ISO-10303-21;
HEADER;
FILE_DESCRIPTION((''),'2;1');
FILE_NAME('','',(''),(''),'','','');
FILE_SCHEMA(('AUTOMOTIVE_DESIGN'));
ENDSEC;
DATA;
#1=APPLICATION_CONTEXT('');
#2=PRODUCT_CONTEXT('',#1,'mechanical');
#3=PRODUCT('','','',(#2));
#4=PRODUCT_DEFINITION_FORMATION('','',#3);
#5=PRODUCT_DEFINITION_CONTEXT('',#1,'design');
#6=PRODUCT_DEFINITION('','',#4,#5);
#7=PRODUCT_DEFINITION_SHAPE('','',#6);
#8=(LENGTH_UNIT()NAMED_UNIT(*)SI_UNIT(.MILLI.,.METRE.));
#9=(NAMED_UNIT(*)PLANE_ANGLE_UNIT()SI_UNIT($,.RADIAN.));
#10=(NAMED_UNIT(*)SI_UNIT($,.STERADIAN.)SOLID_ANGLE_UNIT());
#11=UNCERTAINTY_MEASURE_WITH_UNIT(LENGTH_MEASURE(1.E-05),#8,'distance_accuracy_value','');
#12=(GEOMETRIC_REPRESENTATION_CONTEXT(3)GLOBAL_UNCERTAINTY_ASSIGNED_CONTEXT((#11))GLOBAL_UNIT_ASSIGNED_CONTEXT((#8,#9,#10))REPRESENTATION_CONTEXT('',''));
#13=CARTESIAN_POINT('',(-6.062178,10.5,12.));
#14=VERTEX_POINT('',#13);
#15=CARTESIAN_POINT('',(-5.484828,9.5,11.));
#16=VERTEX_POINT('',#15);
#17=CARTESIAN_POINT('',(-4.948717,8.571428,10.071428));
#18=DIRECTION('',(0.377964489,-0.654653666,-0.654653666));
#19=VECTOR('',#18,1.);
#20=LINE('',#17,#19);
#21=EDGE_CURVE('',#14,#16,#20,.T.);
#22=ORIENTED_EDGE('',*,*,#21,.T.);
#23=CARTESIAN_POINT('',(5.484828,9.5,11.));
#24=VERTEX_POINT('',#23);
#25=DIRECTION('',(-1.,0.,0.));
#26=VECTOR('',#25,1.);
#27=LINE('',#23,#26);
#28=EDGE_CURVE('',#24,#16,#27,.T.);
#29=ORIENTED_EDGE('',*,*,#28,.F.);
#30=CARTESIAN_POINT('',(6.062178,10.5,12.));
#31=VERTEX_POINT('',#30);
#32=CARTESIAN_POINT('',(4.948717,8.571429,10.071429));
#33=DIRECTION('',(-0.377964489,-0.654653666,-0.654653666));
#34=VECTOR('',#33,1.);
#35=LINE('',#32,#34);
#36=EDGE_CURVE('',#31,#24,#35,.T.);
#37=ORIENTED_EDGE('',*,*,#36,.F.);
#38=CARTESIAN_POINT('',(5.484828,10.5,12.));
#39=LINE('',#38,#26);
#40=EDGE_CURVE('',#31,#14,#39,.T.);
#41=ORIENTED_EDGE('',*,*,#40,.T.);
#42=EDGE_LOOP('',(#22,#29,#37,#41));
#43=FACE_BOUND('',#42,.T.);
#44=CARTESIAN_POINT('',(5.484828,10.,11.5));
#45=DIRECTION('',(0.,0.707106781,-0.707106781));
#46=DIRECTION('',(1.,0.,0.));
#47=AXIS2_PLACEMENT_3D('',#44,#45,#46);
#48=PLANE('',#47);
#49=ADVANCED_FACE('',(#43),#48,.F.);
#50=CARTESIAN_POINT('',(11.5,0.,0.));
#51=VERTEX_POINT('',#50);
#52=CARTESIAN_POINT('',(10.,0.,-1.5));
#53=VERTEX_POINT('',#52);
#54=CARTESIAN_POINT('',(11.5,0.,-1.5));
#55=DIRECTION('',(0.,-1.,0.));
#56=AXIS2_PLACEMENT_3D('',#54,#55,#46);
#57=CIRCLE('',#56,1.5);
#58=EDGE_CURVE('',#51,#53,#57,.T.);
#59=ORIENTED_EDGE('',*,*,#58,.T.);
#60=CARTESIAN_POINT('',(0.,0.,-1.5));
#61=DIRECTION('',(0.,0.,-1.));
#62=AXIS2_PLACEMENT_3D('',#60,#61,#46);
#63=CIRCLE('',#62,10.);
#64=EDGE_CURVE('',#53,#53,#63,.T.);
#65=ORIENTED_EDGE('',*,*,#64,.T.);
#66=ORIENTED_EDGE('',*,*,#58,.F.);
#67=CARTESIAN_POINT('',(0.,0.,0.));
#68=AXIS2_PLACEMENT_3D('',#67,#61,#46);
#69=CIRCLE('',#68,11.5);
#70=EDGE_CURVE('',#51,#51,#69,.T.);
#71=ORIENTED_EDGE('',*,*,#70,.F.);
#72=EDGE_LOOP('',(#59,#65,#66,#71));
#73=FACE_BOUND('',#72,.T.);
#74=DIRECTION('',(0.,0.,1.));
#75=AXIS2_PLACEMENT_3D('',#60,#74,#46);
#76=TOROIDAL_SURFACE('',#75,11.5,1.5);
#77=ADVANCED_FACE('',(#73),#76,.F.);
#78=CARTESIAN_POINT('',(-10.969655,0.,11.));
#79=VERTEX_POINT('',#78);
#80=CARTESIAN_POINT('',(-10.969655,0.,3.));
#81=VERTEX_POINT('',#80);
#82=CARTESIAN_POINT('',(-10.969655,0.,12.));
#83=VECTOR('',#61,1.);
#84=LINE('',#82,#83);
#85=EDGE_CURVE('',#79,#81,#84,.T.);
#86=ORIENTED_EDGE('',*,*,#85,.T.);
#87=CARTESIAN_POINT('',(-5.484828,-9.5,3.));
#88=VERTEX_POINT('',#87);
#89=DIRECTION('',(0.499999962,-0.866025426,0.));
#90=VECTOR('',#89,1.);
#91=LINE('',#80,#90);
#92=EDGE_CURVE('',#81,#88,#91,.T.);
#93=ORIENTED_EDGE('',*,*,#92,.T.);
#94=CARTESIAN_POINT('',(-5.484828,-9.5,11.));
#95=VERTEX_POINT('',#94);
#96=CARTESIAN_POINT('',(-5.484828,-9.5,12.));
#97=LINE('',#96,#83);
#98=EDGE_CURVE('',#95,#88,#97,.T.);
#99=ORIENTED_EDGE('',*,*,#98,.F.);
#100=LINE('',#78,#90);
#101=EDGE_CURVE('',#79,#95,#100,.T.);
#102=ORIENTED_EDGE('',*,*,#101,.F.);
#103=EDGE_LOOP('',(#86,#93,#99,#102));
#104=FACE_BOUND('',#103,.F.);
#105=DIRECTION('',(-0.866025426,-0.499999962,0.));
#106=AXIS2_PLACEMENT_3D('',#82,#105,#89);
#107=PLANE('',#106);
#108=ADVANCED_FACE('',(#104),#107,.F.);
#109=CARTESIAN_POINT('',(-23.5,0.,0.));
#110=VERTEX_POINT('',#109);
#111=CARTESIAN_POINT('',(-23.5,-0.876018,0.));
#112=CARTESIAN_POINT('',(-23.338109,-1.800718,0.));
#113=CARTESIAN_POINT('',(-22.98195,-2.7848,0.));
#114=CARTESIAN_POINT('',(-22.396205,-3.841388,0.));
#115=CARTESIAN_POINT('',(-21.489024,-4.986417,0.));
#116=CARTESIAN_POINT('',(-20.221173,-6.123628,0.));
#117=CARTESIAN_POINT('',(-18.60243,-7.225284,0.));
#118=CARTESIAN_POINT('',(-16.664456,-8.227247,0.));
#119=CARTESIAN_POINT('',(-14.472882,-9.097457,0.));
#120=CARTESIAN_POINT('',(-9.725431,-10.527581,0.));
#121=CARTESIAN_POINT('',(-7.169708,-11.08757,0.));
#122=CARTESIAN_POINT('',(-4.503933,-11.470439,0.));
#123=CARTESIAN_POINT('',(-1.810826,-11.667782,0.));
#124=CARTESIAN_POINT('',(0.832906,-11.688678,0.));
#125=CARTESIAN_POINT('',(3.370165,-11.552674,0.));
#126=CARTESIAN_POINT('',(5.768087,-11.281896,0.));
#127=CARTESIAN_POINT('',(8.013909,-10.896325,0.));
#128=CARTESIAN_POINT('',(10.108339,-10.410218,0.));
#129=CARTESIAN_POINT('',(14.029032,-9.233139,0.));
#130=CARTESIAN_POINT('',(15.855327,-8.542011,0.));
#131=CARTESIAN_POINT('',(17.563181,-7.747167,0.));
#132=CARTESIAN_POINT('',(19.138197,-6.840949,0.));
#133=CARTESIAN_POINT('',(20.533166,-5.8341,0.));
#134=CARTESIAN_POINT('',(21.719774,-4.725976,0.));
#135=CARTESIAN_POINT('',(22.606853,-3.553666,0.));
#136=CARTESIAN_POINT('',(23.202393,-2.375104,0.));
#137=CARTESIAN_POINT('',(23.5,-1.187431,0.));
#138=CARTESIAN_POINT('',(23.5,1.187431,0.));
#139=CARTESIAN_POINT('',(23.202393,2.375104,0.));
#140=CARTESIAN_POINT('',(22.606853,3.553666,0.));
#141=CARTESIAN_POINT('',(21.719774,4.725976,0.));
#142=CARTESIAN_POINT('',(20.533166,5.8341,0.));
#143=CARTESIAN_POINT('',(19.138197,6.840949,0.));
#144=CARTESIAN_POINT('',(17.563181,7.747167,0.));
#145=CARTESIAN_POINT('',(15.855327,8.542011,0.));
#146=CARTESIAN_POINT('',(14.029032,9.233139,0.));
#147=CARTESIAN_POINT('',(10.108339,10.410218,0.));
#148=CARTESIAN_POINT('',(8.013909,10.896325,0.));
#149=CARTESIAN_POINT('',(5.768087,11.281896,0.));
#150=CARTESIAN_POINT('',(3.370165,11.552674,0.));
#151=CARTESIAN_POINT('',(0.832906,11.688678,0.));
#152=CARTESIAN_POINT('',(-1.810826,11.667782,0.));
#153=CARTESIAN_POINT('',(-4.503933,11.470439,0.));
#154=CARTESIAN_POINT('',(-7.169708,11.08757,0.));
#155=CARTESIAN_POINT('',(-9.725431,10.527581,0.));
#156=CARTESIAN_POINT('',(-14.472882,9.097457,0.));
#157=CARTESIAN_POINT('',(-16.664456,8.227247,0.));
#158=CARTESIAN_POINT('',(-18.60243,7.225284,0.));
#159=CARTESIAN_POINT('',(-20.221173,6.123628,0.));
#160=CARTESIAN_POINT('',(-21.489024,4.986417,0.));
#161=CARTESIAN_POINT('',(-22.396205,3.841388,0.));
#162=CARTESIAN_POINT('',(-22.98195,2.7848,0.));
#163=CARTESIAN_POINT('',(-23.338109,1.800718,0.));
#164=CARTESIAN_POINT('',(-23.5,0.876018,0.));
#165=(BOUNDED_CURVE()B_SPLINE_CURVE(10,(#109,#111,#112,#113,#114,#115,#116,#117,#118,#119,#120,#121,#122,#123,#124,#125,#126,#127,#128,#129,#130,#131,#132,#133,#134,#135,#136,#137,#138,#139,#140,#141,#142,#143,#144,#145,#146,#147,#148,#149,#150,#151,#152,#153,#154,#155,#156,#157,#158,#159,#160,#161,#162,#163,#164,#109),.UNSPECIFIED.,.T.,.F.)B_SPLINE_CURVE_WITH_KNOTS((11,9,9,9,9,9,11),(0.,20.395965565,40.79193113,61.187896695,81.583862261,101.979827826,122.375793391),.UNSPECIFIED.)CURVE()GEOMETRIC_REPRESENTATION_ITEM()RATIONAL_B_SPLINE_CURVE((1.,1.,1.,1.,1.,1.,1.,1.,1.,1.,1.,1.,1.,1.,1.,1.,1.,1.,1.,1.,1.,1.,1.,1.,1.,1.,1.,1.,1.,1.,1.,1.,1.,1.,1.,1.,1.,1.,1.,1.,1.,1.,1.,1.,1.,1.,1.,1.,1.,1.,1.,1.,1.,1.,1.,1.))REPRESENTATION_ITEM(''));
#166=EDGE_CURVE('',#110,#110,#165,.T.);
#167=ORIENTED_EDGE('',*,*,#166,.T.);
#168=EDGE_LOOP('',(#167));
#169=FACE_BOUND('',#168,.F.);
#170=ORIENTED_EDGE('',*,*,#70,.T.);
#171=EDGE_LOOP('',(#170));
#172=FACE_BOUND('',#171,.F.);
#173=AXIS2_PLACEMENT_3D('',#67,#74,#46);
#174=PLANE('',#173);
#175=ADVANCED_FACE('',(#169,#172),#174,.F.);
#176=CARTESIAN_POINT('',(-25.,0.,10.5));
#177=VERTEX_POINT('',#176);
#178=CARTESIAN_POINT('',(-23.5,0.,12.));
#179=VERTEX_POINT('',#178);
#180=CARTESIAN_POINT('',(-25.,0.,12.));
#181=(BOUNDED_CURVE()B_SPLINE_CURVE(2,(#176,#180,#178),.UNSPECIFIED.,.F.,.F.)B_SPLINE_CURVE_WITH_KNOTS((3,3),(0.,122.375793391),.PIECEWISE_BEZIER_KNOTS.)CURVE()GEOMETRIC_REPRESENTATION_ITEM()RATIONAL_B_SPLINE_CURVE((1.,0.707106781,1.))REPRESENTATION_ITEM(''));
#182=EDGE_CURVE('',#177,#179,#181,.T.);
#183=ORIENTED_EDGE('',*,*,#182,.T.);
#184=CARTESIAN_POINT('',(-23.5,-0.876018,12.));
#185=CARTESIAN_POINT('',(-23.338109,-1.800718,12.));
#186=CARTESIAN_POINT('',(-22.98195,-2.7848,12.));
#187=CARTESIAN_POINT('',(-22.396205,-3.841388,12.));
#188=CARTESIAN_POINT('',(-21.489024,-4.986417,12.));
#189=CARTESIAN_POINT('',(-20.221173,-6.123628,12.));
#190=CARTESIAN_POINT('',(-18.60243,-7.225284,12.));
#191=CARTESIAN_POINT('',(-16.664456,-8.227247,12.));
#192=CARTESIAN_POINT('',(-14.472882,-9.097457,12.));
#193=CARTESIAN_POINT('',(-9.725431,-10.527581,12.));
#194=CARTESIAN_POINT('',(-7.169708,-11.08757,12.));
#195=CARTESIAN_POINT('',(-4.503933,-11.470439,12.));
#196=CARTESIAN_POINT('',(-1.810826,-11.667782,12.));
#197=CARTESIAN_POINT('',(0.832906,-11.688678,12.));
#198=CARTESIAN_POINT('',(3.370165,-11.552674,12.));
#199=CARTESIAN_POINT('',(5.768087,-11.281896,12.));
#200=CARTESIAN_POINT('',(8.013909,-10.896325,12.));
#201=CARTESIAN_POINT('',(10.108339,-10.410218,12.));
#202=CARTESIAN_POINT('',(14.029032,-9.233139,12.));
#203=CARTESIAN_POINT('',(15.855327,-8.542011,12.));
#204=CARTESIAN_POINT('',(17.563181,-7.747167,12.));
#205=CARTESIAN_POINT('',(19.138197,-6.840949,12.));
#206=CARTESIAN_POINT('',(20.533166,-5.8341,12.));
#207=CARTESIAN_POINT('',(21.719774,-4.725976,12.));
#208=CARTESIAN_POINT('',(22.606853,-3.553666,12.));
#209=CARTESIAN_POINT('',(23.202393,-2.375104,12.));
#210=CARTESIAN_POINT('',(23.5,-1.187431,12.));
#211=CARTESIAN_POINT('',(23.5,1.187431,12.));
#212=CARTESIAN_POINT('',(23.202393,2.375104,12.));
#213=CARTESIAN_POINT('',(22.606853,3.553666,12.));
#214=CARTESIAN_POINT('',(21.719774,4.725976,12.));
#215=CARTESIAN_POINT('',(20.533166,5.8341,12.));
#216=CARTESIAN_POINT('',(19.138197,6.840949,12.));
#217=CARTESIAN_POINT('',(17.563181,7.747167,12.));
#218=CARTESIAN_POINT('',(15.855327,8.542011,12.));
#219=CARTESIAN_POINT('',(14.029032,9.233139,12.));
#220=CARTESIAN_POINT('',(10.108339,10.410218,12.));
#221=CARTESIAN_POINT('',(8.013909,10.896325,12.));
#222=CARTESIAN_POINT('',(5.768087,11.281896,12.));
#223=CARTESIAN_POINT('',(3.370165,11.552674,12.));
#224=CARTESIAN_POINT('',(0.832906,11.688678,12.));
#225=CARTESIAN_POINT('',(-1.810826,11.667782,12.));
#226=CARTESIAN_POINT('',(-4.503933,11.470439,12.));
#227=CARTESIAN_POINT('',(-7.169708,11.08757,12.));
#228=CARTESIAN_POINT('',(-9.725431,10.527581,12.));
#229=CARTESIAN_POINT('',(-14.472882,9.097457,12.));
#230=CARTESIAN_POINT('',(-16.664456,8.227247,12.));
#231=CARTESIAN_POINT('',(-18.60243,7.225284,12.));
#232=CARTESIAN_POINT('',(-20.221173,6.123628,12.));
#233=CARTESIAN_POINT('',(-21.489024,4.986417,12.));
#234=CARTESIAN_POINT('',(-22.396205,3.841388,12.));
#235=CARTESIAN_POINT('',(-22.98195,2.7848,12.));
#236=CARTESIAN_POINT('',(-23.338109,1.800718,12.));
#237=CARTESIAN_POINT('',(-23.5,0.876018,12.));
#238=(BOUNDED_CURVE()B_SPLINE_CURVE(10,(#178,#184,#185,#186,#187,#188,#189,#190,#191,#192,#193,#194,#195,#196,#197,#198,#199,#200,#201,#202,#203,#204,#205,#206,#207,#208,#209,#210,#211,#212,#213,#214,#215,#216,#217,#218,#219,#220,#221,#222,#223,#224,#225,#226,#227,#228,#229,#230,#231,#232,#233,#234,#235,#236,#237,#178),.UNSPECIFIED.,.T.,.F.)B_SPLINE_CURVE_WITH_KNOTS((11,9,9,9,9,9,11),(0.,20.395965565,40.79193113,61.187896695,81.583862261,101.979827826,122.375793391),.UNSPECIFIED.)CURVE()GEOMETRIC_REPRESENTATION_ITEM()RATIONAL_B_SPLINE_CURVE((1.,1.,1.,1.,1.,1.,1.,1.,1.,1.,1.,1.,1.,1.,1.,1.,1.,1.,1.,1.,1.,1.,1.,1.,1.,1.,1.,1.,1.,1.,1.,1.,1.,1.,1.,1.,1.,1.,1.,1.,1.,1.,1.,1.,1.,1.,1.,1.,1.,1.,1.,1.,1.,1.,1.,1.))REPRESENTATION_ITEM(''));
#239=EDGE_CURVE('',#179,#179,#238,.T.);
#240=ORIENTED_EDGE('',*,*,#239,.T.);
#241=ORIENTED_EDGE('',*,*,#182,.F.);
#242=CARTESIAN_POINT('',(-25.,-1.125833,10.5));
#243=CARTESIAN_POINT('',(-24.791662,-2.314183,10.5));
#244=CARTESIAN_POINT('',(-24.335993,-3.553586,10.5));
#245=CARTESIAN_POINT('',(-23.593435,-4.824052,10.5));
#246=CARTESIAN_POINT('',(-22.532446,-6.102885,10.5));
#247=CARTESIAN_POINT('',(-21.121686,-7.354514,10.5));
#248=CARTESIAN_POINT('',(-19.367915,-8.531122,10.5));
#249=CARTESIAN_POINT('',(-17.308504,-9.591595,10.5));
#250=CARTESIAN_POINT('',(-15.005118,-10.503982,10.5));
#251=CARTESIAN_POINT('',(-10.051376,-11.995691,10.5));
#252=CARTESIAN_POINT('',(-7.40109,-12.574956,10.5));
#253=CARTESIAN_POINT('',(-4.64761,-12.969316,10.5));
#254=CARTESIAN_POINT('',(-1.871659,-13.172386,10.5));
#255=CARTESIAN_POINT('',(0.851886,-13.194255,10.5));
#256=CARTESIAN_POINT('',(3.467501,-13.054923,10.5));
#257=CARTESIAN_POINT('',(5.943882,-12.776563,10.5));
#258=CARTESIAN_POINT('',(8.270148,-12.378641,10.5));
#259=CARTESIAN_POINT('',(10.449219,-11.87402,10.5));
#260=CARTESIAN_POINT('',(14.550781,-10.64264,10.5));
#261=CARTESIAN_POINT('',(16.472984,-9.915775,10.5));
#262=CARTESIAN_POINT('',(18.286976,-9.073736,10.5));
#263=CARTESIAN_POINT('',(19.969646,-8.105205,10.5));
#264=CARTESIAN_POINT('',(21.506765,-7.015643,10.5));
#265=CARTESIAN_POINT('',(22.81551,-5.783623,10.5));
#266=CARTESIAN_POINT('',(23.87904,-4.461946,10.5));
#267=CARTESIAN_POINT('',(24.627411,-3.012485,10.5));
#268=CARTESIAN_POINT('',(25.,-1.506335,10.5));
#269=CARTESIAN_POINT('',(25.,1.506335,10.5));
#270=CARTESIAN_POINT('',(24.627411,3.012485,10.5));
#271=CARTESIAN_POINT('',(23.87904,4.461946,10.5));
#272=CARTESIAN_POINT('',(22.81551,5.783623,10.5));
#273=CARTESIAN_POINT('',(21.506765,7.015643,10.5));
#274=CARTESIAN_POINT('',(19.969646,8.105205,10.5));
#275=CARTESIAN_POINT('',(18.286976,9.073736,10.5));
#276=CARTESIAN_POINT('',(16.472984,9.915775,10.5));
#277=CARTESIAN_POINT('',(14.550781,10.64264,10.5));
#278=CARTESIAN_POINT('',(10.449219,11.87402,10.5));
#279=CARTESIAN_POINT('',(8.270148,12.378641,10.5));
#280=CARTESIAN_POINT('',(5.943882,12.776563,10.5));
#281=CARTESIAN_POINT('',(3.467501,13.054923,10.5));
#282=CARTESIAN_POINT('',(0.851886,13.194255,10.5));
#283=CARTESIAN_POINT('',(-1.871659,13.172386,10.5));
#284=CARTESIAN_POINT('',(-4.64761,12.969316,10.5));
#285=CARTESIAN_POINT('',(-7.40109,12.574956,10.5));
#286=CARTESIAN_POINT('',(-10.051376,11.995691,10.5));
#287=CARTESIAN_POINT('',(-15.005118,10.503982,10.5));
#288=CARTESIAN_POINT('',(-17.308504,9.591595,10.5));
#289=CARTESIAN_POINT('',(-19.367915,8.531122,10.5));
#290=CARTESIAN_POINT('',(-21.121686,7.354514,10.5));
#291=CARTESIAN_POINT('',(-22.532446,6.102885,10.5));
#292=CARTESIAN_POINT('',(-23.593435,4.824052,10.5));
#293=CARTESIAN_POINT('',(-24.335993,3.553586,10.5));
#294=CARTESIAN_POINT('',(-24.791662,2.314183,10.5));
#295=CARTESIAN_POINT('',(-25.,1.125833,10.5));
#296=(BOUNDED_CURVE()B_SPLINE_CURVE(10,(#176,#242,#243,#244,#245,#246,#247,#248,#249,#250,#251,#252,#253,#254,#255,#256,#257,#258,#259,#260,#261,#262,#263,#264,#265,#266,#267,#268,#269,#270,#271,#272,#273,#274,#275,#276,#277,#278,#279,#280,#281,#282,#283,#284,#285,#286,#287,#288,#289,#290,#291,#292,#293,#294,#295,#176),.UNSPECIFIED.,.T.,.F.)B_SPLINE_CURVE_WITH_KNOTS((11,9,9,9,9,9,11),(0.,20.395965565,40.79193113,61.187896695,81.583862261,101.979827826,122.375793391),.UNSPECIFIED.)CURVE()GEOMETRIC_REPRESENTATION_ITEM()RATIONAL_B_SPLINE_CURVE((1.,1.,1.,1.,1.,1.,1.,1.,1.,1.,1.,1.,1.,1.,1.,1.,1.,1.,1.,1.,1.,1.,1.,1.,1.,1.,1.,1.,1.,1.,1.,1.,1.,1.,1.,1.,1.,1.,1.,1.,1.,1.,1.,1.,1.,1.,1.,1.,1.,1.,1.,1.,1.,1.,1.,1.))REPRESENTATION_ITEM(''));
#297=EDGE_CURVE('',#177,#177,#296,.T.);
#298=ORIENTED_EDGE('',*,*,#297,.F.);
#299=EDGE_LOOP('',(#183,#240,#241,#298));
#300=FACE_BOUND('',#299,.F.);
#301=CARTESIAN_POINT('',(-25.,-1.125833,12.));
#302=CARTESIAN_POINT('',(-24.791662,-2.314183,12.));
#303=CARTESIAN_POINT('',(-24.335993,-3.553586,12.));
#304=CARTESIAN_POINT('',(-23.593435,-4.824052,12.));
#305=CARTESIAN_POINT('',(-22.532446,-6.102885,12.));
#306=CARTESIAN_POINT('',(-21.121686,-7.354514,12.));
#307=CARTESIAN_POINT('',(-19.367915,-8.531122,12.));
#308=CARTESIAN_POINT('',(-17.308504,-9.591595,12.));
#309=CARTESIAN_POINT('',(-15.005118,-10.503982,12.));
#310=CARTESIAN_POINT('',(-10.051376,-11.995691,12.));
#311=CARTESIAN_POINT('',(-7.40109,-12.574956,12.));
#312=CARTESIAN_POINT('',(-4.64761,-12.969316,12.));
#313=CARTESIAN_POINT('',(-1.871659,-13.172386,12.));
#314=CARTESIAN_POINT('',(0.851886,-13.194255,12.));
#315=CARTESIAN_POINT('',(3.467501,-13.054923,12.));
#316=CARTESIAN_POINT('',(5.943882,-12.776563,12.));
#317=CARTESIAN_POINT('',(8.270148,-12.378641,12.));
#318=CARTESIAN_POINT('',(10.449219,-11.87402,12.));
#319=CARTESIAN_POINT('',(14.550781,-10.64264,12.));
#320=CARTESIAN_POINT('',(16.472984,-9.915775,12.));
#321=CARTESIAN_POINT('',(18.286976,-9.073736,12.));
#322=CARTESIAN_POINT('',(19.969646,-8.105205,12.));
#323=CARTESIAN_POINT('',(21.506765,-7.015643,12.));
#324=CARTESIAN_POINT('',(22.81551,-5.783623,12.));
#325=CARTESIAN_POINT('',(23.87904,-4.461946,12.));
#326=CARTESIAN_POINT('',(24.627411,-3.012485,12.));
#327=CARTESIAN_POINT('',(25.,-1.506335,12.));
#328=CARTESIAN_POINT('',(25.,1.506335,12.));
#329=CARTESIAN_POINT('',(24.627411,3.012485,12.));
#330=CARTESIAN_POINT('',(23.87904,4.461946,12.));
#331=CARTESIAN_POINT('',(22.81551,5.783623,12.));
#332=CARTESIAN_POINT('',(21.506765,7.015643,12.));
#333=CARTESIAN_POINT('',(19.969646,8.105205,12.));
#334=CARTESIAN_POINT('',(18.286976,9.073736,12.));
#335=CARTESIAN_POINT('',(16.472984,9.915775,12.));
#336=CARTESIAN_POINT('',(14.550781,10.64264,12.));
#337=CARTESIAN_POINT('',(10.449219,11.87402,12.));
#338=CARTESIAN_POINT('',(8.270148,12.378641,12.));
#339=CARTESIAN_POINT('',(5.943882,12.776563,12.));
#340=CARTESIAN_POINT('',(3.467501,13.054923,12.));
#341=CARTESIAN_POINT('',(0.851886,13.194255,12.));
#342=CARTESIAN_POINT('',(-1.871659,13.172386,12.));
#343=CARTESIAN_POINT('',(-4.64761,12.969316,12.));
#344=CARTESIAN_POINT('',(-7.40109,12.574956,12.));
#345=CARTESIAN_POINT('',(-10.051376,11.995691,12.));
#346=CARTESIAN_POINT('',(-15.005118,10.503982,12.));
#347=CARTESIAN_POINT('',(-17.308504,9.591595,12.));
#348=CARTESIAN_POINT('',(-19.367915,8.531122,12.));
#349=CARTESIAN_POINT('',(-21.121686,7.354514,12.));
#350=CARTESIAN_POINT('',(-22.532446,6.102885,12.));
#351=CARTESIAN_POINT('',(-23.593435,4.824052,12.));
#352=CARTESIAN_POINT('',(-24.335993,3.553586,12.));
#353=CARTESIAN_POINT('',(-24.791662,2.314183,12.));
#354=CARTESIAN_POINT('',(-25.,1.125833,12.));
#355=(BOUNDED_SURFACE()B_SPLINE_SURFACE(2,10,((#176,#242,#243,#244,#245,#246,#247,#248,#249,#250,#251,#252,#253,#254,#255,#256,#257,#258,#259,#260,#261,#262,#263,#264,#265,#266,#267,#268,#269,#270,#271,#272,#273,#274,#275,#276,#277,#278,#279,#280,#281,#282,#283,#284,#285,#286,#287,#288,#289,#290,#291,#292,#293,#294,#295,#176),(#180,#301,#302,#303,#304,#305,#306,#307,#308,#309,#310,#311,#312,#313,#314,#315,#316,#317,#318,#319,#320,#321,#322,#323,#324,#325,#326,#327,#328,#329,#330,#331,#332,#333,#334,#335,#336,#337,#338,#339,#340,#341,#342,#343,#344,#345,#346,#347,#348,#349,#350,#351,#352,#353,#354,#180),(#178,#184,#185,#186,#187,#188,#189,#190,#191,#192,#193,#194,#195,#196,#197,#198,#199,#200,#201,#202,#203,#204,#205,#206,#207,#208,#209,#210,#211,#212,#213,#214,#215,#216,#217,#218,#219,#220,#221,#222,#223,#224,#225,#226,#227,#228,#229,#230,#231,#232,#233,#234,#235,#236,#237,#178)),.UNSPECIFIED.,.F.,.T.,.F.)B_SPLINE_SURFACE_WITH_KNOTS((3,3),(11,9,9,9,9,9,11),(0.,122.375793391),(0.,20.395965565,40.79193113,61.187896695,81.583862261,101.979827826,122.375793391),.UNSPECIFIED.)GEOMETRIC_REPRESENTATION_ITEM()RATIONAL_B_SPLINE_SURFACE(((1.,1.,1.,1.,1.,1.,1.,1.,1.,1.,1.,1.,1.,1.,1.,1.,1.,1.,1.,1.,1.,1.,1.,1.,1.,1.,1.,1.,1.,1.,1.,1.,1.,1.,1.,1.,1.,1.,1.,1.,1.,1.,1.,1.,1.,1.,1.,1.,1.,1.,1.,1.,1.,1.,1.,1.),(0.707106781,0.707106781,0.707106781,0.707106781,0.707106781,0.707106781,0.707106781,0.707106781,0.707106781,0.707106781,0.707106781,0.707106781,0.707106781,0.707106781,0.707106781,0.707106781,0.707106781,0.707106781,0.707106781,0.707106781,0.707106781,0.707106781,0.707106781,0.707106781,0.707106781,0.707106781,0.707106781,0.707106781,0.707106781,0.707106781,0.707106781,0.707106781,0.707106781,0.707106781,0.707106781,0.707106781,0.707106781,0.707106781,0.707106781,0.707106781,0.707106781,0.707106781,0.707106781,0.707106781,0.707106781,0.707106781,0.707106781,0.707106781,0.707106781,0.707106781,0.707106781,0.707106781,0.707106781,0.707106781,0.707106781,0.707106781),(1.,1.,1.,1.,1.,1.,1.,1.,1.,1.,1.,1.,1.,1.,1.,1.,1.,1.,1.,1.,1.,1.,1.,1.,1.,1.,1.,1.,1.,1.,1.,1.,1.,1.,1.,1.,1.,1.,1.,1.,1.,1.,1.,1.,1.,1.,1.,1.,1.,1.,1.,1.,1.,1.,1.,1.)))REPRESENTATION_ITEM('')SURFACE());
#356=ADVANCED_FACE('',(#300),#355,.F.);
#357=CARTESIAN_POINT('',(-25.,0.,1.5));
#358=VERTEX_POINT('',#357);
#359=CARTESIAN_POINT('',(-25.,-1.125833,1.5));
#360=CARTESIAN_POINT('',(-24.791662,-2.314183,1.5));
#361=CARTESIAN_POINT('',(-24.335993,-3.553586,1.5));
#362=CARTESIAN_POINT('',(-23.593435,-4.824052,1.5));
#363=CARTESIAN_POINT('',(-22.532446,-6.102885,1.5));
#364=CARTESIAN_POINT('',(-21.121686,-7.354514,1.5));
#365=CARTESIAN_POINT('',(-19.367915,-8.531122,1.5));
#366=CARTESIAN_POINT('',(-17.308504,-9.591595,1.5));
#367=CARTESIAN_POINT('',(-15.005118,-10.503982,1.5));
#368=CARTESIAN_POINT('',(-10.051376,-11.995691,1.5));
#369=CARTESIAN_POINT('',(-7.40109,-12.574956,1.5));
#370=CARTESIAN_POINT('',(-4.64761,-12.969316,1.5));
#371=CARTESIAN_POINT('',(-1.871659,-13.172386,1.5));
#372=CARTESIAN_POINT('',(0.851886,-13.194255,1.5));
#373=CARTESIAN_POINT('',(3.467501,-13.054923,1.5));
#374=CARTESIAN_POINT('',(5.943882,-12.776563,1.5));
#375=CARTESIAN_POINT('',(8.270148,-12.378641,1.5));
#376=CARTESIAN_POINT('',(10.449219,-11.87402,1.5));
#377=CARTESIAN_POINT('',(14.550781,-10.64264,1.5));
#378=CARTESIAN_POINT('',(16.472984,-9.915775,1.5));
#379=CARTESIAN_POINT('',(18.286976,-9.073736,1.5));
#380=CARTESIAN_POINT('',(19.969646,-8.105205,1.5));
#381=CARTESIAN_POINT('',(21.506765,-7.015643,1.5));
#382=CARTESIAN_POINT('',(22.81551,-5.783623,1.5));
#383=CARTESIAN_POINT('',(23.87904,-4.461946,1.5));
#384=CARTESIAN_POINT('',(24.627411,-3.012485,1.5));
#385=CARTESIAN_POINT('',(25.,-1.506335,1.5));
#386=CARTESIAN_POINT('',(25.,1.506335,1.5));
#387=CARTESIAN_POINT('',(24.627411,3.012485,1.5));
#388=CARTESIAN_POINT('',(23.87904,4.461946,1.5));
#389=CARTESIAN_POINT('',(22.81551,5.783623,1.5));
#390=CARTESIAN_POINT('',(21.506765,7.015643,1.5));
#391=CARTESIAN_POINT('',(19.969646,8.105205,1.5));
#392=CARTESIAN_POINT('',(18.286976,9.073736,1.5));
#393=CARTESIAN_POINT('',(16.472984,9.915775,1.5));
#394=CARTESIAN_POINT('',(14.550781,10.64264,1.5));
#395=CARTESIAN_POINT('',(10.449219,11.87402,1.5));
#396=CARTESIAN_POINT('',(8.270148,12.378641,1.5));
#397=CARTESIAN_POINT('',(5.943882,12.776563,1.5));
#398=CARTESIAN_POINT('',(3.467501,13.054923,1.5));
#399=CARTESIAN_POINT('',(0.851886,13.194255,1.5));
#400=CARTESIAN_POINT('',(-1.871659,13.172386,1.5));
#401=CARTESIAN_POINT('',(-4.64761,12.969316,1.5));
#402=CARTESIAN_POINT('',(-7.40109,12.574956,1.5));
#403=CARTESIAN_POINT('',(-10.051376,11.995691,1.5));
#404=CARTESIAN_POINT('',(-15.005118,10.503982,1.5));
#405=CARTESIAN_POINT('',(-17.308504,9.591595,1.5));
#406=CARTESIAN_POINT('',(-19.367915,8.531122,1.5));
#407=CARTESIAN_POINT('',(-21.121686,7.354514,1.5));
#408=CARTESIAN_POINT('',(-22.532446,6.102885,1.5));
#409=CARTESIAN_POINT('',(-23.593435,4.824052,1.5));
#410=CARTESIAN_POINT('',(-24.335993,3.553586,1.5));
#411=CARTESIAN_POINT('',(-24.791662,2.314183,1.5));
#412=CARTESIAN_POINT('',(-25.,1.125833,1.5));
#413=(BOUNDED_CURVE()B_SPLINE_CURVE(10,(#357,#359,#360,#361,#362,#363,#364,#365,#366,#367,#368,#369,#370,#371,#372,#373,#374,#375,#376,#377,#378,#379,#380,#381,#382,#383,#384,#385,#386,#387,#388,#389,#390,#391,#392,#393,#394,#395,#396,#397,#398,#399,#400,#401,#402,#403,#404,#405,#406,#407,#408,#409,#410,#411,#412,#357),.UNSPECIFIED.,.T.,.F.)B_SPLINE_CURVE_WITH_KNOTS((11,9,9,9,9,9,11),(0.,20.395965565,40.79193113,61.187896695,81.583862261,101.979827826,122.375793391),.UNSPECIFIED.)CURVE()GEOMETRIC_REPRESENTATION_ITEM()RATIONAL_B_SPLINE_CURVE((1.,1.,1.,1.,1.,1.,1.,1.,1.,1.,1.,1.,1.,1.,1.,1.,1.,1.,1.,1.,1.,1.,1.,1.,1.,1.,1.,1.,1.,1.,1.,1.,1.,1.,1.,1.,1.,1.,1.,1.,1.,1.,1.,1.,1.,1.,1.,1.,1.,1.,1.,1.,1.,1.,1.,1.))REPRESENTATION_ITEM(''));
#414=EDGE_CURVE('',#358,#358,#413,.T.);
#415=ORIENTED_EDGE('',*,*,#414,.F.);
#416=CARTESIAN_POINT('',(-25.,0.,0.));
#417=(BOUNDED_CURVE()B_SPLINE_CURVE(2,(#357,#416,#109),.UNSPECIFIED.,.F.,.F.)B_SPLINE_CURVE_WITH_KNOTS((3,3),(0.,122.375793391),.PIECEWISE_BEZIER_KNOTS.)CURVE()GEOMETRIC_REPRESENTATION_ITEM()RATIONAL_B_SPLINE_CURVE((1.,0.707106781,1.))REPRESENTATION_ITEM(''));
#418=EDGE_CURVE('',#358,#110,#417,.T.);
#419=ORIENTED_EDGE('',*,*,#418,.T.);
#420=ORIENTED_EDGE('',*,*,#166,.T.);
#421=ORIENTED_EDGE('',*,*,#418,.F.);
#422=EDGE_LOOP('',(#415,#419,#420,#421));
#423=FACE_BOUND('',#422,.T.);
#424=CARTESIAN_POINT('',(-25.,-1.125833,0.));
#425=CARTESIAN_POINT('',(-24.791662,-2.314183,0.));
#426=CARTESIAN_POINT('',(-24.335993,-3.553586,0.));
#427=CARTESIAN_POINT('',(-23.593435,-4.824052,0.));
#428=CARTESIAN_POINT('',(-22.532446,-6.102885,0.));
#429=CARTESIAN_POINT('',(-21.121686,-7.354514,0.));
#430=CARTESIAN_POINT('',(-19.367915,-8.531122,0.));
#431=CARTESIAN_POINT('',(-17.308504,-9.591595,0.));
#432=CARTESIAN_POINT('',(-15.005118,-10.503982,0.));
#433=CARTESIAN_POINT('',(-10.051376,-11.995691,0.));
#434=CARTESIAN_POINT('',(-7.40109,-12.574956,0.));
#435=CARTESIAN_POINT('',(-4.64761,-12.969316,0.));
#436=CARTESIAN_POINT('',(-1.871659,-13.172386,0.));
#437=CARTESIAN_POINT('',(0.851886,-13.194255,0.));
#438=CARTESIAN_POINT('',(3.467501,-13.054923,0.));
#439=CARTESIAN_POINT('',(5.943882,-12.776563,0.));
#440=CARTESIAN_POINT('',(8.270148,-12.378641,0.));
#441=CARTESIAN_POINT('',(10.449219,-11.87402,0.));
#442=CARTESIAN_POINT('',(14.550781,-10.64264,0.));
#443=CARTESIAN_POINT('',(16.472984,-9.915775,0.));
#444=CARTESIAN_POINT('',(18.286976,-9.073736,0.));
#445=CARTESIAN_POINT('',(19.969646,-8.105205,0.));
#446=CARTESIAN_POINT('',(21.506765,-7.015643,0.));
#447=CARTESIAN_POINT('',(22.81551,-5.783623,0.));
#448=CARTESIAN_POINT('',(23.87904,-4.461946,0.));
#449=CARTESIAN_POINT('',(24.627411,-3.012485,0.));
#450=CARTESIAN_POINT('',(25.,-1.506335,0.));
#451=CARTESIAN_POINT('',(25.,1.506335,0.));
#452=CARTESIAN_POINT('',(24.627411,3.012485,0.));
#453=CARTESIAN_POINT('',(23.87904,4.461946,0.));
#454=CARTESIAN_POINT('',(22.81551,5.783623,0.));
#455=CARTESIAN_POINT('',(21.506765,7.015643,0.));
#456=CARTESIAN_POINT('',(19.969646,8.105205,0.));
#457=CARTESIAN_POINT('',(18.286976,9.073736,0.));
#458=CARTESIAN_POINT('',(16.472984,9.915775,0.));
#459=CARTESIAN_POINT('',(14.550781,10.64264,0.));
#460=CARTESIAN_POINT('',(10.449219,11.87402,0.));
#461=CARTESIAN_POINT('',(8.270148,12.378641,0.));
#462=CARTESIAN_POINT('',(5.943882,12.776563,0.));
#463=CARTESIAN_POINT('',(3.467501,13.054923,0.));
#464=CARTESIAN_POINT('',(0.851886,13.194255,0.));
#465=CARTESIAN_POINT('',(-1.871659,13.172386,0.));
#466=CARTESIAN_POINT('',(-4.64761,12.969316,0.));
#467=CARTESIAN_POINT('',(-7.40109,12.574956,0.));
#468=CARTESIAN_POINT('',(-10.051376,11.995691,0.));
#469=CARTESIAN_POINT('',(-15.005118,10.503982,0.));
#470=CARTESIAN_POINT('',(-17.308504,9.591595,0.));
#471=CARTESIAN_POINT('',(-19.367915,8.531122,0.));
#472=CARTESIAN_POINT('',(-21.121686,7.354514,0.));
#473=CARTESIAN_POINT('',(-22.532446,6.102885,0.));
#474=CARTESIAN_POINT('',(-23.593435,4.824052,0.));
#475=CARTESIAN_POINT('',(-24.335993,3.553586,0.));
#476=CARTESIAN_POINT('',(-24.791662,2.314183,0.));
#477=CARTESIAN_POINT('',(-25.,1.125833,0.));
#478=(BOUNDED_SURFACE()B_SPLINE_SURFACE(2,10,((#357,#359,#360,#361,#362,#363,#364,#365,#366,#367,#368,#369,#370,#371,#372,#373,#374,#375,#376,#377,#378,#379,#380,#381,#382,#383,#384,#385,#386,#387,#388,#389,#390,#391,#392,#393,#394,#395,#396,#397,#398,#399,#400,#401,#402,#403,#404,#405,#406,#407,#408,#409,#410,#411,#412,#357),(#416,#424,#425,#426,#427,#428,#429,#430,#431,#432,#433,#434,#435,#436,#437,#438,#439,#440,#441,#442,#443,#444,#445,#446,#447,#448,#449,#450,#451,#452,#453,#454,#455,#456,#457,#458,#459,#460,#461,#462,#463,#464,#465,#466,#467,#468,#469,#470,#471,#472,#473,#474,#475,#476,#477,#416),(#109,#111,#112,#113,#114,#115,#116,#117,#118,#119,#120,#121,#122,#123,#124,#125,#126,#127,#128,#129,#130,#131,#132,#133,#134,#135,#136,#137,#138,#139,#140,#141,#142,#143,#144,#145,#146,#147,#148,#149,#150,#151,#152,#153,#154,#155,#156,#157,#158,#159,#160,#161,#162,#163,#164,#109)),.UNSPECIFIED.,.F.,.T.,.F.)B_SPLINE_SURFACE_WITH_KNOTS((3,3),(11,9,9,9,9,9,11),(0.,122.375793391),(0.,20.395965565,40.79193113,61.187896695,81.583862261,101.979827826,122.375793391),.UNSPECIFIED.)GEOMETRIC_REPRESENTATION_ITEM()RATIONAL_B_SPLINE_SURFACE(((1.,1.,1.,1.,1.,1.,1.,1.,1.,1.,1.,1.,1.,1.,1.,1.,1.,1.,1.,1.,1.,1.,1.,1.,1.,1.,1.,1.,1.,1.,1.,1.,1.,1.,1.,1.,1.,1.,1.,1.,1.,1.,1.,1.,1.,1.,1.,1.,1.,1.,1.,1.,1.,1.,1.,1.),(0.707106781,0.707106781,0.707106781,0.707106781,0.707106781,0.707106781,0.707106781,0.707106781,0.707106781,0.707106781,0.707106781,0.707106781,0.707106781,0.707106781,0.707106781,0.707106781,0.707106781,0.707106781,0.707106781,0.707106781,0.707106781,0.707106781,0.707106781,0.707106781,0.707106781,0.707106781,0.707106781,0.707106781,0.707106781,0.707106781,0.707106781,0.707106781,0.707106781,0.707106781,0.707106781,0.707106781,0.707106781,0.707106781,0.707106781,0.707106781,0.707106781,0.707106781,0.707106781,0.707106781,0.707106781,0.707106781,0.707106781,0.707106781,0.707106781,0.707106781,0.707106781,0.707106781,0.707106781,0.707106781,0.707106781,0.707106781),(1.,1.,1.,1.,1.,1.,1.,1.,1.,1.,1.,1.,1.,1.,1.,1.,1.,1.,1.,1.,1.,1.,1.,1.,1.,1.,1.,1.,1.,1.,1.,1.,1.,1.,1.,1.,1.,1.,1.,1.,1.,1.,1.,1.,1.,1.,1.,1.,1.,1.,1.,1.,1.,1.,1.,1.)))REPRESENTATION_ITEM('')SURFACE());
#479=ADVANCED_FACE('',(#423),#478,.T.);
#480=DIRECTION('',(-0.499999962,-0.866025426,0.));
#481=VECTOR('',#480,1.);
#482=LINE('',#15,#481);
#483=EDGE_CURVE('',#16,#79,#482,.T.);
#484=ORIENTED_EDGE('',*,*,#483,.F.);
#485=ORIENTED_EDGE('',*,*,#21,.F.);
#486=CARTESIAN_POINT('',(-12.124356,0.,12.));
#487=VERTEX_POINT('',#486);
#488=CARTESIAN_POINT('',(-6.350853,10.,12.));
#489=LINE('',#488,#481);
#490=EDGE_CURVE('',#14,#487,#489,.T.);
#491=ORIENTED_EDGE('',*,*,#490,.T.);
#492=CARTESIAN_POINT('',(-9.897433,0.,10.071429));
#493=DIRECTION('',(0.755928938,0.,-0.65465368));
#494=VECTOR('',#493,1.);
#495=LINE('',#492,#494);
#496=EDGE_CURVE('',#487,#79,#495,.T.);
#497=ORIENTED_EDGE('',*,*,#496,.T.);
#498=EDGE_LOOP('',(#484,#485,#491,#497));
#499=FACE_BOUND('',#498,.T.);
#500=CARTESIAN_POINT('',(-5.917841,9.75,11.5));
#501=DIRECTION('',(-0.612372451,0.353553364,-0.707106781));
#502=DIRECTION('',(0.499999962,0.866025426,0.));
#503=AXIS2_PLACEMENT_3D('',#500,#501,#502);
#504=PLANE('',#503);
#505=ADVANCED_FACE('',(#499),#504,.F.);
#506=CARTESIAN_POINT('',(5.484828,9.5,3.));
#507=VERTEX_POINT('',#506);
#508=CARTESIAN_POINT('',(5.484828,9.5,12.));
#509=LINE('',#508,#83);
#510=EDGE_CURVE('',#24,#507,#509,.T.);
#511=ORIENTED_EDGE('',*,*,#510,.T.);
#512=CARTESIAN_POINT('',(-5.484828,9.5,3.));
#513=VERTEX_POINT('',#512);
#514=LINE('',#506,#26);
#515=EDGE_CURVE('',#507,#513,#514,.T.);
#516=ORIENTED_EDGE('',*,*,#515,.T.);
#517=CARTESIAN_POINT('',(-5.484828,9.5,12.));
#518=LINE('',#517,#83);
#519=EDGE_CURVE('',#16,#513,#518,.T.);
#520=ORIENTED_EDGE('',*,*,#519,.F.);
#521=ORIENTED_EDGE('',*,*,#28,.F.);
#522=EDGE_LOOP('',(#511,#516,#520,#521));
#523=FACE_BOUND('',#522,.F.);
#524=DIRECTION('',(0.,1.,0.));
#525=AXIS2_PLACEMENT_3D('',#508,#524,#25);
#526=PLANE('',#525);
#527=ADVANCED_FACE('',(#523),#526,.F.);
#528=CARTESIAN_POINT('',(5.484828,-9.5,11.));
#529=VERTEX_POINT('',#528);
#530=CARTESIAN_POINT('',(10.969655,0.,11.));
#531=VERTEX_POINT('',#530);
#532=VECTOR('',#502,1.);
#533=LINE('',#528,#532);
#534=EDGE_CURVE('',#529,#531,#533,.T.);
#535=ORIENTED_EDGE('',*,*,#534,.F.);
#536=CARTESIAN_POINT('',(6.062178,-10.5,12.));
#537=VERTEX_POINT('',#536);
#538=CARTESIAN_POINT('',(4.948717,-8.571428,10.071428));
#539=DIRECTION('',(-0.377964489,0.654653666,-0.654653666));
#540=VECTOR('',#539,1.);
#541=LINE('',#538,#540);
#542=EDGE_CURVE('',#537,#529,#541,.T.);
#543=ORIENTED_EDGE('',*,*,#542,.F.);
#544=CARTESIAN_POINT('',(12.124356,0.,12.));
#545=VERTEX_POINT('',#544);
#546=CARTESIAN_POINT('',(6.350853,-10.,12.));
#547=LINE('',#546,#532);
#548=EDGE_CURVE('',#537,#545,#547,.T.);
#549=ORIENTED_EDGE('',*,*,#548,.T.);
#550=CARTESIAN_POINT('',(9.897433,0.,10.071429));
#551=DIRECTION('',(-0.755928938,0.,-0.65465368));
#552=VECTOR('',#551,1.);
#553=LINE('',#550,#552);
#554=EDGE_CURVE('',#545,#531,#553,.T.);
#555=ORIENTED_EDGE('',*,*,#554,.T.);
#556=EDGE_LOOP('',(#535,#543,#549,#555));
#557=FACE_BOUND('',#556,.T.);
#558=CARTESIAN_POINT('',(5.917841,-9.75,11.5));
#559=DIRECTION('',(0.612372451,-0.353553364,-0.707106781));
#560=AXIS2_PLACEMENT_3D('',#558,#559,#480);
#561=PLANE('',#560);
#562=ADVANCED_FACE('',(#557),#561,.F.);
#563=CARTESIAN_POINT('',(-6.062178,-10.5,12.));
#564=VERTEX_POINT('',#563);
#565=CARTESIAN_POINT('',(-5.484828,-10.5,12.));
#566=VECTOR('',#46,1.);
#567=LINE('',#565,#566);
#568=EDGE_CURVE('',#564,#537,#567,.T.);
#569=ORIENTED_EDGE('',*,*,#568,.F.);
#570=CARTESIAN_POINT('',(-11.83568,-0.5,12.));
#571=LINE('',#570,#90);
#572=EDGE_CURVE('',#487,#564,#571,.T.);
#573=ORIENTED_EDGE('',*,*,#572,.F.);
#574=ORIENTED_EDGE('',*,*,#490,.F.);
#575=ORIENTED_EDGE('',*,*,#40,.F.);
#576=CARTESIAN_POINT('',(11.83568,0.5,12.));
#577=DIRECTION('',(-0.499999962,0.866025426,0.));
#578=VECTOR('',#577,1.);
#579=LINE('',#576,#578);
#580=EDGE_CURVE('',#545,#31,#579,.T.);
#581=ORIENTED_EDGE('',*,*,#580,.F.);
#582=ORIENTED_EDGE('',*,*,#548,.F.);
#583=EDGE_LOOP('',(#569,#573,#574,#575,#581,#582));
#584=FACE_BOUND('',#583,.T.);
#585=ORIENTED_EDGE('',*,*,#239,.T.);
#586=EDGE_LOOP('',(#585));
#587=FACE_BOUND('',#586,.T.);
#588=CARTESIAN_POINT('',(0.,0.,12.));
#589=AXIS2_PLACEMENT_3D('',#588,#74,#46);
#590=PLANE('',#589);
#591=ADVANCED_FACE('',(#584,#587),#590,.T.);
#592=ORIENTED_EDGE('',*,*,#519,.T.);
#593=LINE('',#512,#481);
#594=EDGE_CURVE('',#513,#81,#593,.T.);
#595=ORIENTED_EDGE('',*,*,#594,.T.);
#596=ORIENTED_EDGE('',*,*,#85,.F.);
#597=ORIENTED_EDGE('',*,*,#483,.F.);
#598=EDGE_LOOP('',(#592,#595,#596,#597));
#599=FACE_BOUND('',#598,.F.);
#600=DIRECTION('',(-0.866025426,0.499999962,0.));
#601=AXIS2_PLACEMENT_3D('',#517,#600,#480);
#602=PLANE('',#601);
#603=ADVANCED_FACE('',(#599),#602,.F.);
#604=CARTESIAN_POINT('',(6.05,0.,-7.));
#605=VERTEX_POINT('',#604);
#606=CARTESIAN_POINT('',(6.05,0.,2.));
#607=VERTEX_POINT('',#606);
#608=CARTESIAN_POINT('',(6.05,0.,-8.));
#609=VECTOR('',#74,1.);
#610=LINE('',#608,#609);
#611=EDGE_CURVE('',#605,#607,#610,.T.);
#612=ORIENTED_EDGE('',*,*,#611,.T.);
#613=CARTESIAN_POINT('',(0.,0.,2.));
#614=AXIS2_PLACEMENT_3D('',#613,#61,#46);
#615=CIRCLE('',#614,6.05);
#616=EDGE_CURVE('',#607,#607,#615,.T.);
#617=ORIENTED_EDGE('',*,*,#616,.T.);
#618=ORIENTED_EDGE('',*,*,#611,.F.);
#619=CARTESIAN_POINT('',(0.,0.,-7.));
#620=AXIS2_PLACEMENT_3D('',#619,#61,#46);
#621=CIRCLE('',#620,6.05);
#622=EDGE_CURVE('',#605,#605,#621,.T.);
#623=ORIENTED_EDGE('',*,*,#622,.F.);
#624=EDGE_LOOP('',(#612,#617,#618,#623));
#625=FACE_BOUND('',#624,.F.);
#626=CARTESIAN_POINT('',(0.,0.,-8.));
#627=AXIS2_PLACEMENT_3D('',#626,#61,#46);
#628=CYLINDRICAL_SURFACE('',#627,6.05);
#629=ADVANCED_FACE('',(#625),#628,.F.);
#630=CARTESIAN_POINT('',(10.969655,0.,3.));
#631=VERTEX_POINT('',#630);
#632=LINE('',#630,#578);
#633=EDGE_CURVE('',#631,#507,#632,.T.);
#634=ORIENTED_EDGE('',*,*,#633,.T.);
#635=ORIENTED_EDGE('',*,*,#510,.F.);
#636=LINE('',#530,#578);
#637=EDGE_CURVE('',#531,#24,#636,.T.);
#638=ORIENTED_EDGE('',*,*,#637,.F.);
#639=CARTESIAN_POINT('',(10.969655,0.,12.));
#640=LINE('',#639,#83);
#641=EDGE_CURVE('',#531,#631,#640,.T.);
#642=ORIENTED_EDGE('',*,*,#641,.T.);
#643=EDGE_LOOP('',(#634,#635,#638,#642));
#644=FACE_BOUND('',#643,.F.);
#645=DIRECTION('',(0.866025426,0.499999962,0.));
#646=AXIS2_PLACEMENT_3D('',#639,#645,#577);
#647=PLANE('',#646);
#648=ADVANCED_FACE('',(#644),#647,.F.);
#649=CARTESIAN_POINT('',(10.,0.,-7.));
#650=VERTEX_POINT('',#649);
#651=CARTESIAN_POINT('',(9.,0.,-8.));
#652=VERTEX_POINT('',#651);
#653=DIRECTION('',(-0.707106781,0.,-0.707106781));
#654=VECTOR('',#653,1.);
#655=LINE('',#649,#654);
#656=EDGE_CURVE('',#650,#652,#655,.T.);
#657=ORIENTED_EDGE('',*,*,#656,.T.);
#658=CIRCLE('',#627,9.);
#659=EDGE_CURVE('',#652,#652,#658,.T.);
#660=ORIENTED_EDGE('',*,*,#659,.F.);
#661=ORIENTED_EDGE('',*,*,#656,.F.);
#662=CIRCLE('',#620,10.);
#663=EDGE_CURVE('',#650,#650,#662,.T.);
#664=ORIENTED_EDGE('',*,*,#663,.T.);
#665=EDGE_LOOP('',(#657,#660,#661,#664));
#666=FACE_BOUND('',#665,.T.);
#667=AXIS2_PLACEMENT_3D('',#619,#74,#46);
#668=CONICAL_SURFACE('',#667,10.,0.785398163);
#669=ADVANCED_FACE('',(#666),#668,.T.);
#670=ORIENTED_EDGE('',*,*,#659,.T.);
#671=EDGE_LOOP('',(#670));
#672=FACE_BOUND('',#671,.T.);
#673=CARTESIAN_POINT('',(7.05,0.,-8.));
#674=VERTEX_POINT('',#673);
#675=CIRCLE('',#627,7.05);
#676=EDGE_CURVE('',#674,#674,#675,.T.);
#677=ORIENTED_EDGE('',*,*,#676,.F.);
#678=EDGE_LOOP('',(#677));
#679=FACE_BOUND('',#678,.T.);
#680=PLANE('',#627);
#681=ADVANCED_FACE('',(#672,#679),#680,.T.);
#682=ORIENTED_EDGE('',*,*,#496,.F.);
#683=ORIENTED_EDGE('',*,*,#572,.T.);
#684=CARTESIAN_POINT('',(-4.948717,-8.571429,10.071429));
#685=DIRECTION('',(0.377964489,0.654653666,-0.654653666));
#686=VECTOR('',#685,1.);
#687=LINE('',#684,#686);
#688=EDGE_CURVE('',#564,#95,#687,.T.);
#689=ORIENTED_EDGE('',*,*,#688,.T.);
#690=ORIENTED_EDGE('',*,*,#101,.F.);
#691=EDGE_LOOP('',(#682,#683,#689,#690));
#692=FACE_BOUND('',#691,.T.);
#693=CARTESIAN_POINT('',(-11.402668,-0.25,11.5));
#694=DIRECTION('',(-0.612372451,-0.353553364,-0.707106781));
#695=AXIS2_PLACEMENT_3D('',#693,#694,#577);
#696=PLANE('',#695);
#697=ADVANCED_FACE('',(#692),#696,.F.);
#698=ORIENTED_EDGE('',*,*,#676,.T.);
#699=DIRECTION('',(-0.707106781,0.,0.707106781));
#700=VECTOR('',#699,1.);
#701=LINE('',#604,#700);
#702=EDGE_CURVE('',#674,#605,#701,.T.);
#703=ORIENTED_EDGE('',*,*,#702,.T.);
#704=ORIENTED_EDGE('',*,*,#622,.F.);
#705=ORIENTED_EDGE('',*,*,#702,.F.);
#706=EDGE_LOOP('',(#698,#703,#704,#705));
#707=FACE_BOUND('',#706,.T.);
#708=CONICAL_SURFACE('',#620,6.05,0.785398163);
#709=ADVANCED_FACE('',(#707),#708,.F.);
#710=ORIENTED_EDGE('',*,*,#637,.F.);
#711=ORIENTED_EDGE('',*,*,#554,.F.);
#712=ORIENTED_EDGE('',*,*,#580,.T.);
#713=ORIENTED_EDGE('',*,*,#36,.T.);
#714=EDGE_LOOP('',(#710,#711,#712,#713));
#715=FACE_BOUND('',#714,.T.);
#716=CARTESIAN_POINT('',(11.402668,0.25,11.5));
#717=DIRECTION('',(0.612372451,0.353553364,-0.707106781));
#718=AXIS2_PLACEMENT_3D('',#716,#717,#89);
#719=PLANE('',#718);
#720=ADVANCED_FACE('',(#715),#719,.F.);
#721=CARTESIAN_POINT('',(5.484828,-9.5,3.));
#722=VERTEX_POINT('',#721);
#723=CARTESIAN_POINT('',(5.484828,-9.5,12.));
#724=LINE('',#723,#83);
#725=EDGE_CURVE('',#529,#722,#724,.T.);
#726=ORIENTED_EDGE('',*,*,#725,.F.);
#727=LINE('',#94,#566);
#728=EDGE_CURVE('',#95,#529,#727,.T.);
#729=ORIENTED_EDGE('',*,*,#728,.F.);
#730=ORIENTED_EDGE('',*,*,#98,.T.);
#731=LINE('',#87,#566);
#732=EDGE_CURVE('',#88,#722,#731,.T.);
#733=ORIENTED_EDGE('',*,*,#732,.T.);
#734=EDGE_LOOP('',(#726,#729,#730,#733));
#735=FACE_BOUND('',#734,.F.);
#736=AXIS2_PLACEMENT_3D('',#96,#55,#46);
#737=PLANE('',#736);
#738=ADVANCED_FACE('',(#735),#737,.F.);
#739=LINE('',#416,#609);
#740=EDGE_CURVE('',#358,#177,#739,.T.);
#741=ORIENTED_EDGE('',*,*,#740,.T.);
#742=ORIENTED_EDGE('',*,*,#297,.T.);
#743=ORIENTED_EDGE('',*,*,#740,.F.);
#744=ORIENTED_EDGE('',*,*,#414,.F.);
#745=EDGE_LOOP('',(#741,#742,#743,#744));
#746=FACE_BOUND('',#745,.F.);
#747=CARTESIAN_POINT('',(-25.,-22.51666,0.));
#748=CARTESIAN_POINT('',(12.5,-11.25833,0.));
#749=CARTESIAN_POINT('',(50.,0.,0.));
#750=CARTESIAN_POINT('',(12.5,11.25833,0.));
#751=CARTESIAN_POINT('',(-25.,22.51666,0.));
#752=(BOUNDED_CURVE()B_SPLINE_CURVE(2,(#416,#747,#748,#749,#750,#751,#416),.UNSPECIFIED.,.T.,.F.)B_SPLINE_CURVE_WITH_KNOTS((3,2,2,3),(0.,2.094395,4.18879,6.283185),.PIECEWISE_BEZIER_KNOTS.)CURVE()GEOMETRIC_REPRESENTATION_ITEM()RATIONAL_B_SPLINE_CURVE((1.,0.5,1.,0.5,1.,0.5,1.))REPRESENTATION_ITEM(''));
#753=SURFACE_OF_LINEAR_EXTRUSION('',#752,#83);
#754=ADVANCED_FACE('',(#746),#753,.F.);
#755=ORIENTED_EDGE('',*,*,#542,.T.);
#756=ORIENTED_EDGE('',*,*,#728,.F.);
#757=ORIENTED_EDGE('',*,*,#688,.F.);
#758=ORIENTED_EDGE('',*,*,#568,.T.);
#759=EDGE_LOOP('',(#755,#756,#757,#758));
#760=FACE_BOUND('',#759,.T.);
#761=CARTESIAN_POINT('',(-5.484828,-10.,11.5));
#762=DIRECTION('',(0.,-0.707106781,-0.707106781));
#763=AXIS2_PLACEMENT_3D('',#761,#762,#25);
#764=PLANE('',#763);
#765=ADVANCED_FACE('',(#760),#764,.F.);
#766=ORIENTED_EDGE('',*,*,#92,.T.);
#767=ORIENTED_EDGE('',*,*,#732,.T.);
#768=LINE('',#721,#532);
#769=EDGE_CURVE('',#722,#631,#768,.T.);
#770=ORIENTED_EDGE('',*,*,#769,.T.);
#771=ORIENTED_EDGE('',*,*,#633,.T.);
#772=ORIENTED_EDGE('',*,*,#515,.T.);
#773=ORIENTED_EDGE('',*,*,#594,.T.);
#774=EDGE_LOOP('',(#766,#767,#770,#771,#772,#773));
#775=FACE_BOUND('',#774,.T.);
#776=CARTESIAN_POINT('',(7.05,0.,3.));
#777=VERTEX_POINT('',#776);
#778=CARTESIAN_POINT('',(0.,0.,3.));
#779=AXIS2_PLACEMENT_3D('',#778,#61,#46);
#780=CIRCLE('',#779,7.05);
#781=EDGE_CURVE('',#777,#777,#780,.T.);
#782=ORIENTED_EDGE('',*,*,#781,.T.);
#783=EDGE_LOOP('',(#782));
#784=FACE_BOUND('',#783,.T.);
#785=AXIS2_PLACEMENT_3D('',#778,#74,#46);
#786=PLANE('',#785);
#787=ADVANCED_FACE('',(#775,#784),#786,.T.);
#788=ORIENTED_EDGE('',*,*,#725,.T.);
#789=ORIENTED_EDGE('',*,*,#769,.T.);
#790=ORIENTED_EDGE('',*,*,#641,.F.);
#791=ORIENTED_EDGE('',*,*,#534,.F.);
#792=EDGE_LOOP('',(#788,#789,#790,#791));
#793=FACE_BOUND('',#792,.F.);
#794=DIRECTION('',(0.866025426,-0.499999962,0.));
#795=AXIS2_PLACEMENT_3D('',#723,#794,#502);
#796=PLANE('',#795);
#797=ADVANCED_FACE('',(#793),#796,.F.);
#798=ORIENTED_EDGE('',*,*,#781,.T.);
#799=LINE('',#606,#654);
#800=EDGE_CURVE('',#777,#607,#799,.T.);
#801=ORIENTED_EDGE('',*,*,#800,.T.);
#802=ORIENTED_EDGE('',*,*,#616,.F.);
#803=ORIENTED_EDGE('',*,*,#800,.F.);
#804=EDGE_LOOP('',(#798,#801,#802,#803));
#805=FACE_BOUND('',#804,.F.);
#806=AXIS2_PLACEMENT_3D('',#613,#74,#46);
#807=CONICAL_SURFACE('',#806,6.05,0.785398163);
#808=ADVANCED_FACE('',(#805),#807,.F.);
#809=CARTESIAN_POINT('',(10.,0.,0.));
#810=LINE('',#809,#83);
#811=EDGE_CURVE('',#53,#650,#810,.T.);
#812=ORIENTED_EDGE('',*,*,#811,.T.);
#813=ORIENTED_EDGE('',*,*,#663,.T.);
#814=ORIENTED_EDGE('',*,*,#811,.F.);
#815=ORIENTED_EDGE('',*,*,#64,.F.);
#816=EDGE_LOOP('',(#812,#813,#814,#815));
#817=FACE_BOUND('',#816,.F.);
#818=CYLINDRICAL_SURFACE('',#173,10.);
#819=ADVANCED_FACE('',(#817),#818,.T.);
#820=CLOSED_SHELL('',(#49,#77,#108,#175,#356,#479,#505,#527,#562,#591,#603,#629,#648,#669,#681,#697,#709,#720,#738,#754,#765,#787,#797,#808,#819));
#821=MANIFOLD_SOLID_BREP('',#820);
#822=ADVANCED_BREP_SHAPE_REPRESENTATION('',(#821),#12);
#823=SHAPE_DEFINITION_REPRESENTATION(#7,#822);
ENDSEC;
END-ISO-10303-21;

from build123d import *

# Parameters (mm, degrees)
F1_DEPTH = 12
F2_R     = 10
F3_DEPTH = 8
F5_DEPTH = 9
F6_R     = 6.05
F7_DEPTH = 20.001
F8_R     = 1.5
F9_SIZE  = 1


with BuildPart() as f1:
    # F0 (on Top) → F1 (new body)
    with BuildSketch(Plane.XY):
        with BuildLine():
            add(Edge.make_bspline(
                [(-25, 0), (-25, -22.51666), (12.5, -11.25833), (50, 0), (12.5, 11.25833), (-25, 22.51666), (-25, 0)],
                knots=[0, 0, 0, 2.094395, 2.094395, 4.18879, 4.18879, 6.283185, 6.283185, 6.283185], degree=2, weights=[1, 0.5, 1, 0.5, 1, 0.5, 1]))
        make_face()
    extrude(amount=F1_DEPTH)

    # F2 (on face) → F3 (join)
    with BuildSketch(Plane(origin=(0, 0, 0), x_dir=(1, 0, 0), z_dir=(0, 0, -1))):
        Circle(F2_R)
    extrude(amount=F3_DEPTH)

    # F4 (on face) → F5 (cut)
    with BuildSketch(Plane.XY.offset(12)):
        Polygon((5.484828, -9.5), (10.969655, 0), (5.484828, 9.5), (-5.484828, 9.5), (-10.969655, 0), (-5.484828, -9.5), align=None)
    extrude(amount=-F5_DEPTH, mode=Mode.SUBTRACT)

    # F6 (on face) → F7 (cut, through all)
    with BuildSketch(Plane(origin=(0, 0, -8), x_dir=(1, 0, 0), z_dir=(0, 0, -1))):
        Circle(F6_R)
    extrude(amount=-F7_DEPTH, mode=Mode.SUBTRACT)

    # F8
    f8_edges = [f1.edges().sort_by_distance(p)[0] for p in [
        (25, -2e-06, 12),
        (25, -2e-06, 0),
        (-10, 0, 0),
    ]]
    fillet(f8_edges, radius=F8_R)

    # F9
    f9_edges = [f1.edges().sort_by_distance(p)[0] for p in [
        (-6.05, 0, -8),
        (-10, 0, -8),
        (-8.227241, 4.75, 12),
        (-8.227241, -4.75, 12),
        (0, -9.5, 12),
        (8.227241, -4.75, 12),
        (8.227241, 4.75, 12),
        (0, 9.5, 12),
        (-6.05, 0, 3),
    ]]
    chamfer(f9_edges, length=F9_SIZE)


solid = f1.part
